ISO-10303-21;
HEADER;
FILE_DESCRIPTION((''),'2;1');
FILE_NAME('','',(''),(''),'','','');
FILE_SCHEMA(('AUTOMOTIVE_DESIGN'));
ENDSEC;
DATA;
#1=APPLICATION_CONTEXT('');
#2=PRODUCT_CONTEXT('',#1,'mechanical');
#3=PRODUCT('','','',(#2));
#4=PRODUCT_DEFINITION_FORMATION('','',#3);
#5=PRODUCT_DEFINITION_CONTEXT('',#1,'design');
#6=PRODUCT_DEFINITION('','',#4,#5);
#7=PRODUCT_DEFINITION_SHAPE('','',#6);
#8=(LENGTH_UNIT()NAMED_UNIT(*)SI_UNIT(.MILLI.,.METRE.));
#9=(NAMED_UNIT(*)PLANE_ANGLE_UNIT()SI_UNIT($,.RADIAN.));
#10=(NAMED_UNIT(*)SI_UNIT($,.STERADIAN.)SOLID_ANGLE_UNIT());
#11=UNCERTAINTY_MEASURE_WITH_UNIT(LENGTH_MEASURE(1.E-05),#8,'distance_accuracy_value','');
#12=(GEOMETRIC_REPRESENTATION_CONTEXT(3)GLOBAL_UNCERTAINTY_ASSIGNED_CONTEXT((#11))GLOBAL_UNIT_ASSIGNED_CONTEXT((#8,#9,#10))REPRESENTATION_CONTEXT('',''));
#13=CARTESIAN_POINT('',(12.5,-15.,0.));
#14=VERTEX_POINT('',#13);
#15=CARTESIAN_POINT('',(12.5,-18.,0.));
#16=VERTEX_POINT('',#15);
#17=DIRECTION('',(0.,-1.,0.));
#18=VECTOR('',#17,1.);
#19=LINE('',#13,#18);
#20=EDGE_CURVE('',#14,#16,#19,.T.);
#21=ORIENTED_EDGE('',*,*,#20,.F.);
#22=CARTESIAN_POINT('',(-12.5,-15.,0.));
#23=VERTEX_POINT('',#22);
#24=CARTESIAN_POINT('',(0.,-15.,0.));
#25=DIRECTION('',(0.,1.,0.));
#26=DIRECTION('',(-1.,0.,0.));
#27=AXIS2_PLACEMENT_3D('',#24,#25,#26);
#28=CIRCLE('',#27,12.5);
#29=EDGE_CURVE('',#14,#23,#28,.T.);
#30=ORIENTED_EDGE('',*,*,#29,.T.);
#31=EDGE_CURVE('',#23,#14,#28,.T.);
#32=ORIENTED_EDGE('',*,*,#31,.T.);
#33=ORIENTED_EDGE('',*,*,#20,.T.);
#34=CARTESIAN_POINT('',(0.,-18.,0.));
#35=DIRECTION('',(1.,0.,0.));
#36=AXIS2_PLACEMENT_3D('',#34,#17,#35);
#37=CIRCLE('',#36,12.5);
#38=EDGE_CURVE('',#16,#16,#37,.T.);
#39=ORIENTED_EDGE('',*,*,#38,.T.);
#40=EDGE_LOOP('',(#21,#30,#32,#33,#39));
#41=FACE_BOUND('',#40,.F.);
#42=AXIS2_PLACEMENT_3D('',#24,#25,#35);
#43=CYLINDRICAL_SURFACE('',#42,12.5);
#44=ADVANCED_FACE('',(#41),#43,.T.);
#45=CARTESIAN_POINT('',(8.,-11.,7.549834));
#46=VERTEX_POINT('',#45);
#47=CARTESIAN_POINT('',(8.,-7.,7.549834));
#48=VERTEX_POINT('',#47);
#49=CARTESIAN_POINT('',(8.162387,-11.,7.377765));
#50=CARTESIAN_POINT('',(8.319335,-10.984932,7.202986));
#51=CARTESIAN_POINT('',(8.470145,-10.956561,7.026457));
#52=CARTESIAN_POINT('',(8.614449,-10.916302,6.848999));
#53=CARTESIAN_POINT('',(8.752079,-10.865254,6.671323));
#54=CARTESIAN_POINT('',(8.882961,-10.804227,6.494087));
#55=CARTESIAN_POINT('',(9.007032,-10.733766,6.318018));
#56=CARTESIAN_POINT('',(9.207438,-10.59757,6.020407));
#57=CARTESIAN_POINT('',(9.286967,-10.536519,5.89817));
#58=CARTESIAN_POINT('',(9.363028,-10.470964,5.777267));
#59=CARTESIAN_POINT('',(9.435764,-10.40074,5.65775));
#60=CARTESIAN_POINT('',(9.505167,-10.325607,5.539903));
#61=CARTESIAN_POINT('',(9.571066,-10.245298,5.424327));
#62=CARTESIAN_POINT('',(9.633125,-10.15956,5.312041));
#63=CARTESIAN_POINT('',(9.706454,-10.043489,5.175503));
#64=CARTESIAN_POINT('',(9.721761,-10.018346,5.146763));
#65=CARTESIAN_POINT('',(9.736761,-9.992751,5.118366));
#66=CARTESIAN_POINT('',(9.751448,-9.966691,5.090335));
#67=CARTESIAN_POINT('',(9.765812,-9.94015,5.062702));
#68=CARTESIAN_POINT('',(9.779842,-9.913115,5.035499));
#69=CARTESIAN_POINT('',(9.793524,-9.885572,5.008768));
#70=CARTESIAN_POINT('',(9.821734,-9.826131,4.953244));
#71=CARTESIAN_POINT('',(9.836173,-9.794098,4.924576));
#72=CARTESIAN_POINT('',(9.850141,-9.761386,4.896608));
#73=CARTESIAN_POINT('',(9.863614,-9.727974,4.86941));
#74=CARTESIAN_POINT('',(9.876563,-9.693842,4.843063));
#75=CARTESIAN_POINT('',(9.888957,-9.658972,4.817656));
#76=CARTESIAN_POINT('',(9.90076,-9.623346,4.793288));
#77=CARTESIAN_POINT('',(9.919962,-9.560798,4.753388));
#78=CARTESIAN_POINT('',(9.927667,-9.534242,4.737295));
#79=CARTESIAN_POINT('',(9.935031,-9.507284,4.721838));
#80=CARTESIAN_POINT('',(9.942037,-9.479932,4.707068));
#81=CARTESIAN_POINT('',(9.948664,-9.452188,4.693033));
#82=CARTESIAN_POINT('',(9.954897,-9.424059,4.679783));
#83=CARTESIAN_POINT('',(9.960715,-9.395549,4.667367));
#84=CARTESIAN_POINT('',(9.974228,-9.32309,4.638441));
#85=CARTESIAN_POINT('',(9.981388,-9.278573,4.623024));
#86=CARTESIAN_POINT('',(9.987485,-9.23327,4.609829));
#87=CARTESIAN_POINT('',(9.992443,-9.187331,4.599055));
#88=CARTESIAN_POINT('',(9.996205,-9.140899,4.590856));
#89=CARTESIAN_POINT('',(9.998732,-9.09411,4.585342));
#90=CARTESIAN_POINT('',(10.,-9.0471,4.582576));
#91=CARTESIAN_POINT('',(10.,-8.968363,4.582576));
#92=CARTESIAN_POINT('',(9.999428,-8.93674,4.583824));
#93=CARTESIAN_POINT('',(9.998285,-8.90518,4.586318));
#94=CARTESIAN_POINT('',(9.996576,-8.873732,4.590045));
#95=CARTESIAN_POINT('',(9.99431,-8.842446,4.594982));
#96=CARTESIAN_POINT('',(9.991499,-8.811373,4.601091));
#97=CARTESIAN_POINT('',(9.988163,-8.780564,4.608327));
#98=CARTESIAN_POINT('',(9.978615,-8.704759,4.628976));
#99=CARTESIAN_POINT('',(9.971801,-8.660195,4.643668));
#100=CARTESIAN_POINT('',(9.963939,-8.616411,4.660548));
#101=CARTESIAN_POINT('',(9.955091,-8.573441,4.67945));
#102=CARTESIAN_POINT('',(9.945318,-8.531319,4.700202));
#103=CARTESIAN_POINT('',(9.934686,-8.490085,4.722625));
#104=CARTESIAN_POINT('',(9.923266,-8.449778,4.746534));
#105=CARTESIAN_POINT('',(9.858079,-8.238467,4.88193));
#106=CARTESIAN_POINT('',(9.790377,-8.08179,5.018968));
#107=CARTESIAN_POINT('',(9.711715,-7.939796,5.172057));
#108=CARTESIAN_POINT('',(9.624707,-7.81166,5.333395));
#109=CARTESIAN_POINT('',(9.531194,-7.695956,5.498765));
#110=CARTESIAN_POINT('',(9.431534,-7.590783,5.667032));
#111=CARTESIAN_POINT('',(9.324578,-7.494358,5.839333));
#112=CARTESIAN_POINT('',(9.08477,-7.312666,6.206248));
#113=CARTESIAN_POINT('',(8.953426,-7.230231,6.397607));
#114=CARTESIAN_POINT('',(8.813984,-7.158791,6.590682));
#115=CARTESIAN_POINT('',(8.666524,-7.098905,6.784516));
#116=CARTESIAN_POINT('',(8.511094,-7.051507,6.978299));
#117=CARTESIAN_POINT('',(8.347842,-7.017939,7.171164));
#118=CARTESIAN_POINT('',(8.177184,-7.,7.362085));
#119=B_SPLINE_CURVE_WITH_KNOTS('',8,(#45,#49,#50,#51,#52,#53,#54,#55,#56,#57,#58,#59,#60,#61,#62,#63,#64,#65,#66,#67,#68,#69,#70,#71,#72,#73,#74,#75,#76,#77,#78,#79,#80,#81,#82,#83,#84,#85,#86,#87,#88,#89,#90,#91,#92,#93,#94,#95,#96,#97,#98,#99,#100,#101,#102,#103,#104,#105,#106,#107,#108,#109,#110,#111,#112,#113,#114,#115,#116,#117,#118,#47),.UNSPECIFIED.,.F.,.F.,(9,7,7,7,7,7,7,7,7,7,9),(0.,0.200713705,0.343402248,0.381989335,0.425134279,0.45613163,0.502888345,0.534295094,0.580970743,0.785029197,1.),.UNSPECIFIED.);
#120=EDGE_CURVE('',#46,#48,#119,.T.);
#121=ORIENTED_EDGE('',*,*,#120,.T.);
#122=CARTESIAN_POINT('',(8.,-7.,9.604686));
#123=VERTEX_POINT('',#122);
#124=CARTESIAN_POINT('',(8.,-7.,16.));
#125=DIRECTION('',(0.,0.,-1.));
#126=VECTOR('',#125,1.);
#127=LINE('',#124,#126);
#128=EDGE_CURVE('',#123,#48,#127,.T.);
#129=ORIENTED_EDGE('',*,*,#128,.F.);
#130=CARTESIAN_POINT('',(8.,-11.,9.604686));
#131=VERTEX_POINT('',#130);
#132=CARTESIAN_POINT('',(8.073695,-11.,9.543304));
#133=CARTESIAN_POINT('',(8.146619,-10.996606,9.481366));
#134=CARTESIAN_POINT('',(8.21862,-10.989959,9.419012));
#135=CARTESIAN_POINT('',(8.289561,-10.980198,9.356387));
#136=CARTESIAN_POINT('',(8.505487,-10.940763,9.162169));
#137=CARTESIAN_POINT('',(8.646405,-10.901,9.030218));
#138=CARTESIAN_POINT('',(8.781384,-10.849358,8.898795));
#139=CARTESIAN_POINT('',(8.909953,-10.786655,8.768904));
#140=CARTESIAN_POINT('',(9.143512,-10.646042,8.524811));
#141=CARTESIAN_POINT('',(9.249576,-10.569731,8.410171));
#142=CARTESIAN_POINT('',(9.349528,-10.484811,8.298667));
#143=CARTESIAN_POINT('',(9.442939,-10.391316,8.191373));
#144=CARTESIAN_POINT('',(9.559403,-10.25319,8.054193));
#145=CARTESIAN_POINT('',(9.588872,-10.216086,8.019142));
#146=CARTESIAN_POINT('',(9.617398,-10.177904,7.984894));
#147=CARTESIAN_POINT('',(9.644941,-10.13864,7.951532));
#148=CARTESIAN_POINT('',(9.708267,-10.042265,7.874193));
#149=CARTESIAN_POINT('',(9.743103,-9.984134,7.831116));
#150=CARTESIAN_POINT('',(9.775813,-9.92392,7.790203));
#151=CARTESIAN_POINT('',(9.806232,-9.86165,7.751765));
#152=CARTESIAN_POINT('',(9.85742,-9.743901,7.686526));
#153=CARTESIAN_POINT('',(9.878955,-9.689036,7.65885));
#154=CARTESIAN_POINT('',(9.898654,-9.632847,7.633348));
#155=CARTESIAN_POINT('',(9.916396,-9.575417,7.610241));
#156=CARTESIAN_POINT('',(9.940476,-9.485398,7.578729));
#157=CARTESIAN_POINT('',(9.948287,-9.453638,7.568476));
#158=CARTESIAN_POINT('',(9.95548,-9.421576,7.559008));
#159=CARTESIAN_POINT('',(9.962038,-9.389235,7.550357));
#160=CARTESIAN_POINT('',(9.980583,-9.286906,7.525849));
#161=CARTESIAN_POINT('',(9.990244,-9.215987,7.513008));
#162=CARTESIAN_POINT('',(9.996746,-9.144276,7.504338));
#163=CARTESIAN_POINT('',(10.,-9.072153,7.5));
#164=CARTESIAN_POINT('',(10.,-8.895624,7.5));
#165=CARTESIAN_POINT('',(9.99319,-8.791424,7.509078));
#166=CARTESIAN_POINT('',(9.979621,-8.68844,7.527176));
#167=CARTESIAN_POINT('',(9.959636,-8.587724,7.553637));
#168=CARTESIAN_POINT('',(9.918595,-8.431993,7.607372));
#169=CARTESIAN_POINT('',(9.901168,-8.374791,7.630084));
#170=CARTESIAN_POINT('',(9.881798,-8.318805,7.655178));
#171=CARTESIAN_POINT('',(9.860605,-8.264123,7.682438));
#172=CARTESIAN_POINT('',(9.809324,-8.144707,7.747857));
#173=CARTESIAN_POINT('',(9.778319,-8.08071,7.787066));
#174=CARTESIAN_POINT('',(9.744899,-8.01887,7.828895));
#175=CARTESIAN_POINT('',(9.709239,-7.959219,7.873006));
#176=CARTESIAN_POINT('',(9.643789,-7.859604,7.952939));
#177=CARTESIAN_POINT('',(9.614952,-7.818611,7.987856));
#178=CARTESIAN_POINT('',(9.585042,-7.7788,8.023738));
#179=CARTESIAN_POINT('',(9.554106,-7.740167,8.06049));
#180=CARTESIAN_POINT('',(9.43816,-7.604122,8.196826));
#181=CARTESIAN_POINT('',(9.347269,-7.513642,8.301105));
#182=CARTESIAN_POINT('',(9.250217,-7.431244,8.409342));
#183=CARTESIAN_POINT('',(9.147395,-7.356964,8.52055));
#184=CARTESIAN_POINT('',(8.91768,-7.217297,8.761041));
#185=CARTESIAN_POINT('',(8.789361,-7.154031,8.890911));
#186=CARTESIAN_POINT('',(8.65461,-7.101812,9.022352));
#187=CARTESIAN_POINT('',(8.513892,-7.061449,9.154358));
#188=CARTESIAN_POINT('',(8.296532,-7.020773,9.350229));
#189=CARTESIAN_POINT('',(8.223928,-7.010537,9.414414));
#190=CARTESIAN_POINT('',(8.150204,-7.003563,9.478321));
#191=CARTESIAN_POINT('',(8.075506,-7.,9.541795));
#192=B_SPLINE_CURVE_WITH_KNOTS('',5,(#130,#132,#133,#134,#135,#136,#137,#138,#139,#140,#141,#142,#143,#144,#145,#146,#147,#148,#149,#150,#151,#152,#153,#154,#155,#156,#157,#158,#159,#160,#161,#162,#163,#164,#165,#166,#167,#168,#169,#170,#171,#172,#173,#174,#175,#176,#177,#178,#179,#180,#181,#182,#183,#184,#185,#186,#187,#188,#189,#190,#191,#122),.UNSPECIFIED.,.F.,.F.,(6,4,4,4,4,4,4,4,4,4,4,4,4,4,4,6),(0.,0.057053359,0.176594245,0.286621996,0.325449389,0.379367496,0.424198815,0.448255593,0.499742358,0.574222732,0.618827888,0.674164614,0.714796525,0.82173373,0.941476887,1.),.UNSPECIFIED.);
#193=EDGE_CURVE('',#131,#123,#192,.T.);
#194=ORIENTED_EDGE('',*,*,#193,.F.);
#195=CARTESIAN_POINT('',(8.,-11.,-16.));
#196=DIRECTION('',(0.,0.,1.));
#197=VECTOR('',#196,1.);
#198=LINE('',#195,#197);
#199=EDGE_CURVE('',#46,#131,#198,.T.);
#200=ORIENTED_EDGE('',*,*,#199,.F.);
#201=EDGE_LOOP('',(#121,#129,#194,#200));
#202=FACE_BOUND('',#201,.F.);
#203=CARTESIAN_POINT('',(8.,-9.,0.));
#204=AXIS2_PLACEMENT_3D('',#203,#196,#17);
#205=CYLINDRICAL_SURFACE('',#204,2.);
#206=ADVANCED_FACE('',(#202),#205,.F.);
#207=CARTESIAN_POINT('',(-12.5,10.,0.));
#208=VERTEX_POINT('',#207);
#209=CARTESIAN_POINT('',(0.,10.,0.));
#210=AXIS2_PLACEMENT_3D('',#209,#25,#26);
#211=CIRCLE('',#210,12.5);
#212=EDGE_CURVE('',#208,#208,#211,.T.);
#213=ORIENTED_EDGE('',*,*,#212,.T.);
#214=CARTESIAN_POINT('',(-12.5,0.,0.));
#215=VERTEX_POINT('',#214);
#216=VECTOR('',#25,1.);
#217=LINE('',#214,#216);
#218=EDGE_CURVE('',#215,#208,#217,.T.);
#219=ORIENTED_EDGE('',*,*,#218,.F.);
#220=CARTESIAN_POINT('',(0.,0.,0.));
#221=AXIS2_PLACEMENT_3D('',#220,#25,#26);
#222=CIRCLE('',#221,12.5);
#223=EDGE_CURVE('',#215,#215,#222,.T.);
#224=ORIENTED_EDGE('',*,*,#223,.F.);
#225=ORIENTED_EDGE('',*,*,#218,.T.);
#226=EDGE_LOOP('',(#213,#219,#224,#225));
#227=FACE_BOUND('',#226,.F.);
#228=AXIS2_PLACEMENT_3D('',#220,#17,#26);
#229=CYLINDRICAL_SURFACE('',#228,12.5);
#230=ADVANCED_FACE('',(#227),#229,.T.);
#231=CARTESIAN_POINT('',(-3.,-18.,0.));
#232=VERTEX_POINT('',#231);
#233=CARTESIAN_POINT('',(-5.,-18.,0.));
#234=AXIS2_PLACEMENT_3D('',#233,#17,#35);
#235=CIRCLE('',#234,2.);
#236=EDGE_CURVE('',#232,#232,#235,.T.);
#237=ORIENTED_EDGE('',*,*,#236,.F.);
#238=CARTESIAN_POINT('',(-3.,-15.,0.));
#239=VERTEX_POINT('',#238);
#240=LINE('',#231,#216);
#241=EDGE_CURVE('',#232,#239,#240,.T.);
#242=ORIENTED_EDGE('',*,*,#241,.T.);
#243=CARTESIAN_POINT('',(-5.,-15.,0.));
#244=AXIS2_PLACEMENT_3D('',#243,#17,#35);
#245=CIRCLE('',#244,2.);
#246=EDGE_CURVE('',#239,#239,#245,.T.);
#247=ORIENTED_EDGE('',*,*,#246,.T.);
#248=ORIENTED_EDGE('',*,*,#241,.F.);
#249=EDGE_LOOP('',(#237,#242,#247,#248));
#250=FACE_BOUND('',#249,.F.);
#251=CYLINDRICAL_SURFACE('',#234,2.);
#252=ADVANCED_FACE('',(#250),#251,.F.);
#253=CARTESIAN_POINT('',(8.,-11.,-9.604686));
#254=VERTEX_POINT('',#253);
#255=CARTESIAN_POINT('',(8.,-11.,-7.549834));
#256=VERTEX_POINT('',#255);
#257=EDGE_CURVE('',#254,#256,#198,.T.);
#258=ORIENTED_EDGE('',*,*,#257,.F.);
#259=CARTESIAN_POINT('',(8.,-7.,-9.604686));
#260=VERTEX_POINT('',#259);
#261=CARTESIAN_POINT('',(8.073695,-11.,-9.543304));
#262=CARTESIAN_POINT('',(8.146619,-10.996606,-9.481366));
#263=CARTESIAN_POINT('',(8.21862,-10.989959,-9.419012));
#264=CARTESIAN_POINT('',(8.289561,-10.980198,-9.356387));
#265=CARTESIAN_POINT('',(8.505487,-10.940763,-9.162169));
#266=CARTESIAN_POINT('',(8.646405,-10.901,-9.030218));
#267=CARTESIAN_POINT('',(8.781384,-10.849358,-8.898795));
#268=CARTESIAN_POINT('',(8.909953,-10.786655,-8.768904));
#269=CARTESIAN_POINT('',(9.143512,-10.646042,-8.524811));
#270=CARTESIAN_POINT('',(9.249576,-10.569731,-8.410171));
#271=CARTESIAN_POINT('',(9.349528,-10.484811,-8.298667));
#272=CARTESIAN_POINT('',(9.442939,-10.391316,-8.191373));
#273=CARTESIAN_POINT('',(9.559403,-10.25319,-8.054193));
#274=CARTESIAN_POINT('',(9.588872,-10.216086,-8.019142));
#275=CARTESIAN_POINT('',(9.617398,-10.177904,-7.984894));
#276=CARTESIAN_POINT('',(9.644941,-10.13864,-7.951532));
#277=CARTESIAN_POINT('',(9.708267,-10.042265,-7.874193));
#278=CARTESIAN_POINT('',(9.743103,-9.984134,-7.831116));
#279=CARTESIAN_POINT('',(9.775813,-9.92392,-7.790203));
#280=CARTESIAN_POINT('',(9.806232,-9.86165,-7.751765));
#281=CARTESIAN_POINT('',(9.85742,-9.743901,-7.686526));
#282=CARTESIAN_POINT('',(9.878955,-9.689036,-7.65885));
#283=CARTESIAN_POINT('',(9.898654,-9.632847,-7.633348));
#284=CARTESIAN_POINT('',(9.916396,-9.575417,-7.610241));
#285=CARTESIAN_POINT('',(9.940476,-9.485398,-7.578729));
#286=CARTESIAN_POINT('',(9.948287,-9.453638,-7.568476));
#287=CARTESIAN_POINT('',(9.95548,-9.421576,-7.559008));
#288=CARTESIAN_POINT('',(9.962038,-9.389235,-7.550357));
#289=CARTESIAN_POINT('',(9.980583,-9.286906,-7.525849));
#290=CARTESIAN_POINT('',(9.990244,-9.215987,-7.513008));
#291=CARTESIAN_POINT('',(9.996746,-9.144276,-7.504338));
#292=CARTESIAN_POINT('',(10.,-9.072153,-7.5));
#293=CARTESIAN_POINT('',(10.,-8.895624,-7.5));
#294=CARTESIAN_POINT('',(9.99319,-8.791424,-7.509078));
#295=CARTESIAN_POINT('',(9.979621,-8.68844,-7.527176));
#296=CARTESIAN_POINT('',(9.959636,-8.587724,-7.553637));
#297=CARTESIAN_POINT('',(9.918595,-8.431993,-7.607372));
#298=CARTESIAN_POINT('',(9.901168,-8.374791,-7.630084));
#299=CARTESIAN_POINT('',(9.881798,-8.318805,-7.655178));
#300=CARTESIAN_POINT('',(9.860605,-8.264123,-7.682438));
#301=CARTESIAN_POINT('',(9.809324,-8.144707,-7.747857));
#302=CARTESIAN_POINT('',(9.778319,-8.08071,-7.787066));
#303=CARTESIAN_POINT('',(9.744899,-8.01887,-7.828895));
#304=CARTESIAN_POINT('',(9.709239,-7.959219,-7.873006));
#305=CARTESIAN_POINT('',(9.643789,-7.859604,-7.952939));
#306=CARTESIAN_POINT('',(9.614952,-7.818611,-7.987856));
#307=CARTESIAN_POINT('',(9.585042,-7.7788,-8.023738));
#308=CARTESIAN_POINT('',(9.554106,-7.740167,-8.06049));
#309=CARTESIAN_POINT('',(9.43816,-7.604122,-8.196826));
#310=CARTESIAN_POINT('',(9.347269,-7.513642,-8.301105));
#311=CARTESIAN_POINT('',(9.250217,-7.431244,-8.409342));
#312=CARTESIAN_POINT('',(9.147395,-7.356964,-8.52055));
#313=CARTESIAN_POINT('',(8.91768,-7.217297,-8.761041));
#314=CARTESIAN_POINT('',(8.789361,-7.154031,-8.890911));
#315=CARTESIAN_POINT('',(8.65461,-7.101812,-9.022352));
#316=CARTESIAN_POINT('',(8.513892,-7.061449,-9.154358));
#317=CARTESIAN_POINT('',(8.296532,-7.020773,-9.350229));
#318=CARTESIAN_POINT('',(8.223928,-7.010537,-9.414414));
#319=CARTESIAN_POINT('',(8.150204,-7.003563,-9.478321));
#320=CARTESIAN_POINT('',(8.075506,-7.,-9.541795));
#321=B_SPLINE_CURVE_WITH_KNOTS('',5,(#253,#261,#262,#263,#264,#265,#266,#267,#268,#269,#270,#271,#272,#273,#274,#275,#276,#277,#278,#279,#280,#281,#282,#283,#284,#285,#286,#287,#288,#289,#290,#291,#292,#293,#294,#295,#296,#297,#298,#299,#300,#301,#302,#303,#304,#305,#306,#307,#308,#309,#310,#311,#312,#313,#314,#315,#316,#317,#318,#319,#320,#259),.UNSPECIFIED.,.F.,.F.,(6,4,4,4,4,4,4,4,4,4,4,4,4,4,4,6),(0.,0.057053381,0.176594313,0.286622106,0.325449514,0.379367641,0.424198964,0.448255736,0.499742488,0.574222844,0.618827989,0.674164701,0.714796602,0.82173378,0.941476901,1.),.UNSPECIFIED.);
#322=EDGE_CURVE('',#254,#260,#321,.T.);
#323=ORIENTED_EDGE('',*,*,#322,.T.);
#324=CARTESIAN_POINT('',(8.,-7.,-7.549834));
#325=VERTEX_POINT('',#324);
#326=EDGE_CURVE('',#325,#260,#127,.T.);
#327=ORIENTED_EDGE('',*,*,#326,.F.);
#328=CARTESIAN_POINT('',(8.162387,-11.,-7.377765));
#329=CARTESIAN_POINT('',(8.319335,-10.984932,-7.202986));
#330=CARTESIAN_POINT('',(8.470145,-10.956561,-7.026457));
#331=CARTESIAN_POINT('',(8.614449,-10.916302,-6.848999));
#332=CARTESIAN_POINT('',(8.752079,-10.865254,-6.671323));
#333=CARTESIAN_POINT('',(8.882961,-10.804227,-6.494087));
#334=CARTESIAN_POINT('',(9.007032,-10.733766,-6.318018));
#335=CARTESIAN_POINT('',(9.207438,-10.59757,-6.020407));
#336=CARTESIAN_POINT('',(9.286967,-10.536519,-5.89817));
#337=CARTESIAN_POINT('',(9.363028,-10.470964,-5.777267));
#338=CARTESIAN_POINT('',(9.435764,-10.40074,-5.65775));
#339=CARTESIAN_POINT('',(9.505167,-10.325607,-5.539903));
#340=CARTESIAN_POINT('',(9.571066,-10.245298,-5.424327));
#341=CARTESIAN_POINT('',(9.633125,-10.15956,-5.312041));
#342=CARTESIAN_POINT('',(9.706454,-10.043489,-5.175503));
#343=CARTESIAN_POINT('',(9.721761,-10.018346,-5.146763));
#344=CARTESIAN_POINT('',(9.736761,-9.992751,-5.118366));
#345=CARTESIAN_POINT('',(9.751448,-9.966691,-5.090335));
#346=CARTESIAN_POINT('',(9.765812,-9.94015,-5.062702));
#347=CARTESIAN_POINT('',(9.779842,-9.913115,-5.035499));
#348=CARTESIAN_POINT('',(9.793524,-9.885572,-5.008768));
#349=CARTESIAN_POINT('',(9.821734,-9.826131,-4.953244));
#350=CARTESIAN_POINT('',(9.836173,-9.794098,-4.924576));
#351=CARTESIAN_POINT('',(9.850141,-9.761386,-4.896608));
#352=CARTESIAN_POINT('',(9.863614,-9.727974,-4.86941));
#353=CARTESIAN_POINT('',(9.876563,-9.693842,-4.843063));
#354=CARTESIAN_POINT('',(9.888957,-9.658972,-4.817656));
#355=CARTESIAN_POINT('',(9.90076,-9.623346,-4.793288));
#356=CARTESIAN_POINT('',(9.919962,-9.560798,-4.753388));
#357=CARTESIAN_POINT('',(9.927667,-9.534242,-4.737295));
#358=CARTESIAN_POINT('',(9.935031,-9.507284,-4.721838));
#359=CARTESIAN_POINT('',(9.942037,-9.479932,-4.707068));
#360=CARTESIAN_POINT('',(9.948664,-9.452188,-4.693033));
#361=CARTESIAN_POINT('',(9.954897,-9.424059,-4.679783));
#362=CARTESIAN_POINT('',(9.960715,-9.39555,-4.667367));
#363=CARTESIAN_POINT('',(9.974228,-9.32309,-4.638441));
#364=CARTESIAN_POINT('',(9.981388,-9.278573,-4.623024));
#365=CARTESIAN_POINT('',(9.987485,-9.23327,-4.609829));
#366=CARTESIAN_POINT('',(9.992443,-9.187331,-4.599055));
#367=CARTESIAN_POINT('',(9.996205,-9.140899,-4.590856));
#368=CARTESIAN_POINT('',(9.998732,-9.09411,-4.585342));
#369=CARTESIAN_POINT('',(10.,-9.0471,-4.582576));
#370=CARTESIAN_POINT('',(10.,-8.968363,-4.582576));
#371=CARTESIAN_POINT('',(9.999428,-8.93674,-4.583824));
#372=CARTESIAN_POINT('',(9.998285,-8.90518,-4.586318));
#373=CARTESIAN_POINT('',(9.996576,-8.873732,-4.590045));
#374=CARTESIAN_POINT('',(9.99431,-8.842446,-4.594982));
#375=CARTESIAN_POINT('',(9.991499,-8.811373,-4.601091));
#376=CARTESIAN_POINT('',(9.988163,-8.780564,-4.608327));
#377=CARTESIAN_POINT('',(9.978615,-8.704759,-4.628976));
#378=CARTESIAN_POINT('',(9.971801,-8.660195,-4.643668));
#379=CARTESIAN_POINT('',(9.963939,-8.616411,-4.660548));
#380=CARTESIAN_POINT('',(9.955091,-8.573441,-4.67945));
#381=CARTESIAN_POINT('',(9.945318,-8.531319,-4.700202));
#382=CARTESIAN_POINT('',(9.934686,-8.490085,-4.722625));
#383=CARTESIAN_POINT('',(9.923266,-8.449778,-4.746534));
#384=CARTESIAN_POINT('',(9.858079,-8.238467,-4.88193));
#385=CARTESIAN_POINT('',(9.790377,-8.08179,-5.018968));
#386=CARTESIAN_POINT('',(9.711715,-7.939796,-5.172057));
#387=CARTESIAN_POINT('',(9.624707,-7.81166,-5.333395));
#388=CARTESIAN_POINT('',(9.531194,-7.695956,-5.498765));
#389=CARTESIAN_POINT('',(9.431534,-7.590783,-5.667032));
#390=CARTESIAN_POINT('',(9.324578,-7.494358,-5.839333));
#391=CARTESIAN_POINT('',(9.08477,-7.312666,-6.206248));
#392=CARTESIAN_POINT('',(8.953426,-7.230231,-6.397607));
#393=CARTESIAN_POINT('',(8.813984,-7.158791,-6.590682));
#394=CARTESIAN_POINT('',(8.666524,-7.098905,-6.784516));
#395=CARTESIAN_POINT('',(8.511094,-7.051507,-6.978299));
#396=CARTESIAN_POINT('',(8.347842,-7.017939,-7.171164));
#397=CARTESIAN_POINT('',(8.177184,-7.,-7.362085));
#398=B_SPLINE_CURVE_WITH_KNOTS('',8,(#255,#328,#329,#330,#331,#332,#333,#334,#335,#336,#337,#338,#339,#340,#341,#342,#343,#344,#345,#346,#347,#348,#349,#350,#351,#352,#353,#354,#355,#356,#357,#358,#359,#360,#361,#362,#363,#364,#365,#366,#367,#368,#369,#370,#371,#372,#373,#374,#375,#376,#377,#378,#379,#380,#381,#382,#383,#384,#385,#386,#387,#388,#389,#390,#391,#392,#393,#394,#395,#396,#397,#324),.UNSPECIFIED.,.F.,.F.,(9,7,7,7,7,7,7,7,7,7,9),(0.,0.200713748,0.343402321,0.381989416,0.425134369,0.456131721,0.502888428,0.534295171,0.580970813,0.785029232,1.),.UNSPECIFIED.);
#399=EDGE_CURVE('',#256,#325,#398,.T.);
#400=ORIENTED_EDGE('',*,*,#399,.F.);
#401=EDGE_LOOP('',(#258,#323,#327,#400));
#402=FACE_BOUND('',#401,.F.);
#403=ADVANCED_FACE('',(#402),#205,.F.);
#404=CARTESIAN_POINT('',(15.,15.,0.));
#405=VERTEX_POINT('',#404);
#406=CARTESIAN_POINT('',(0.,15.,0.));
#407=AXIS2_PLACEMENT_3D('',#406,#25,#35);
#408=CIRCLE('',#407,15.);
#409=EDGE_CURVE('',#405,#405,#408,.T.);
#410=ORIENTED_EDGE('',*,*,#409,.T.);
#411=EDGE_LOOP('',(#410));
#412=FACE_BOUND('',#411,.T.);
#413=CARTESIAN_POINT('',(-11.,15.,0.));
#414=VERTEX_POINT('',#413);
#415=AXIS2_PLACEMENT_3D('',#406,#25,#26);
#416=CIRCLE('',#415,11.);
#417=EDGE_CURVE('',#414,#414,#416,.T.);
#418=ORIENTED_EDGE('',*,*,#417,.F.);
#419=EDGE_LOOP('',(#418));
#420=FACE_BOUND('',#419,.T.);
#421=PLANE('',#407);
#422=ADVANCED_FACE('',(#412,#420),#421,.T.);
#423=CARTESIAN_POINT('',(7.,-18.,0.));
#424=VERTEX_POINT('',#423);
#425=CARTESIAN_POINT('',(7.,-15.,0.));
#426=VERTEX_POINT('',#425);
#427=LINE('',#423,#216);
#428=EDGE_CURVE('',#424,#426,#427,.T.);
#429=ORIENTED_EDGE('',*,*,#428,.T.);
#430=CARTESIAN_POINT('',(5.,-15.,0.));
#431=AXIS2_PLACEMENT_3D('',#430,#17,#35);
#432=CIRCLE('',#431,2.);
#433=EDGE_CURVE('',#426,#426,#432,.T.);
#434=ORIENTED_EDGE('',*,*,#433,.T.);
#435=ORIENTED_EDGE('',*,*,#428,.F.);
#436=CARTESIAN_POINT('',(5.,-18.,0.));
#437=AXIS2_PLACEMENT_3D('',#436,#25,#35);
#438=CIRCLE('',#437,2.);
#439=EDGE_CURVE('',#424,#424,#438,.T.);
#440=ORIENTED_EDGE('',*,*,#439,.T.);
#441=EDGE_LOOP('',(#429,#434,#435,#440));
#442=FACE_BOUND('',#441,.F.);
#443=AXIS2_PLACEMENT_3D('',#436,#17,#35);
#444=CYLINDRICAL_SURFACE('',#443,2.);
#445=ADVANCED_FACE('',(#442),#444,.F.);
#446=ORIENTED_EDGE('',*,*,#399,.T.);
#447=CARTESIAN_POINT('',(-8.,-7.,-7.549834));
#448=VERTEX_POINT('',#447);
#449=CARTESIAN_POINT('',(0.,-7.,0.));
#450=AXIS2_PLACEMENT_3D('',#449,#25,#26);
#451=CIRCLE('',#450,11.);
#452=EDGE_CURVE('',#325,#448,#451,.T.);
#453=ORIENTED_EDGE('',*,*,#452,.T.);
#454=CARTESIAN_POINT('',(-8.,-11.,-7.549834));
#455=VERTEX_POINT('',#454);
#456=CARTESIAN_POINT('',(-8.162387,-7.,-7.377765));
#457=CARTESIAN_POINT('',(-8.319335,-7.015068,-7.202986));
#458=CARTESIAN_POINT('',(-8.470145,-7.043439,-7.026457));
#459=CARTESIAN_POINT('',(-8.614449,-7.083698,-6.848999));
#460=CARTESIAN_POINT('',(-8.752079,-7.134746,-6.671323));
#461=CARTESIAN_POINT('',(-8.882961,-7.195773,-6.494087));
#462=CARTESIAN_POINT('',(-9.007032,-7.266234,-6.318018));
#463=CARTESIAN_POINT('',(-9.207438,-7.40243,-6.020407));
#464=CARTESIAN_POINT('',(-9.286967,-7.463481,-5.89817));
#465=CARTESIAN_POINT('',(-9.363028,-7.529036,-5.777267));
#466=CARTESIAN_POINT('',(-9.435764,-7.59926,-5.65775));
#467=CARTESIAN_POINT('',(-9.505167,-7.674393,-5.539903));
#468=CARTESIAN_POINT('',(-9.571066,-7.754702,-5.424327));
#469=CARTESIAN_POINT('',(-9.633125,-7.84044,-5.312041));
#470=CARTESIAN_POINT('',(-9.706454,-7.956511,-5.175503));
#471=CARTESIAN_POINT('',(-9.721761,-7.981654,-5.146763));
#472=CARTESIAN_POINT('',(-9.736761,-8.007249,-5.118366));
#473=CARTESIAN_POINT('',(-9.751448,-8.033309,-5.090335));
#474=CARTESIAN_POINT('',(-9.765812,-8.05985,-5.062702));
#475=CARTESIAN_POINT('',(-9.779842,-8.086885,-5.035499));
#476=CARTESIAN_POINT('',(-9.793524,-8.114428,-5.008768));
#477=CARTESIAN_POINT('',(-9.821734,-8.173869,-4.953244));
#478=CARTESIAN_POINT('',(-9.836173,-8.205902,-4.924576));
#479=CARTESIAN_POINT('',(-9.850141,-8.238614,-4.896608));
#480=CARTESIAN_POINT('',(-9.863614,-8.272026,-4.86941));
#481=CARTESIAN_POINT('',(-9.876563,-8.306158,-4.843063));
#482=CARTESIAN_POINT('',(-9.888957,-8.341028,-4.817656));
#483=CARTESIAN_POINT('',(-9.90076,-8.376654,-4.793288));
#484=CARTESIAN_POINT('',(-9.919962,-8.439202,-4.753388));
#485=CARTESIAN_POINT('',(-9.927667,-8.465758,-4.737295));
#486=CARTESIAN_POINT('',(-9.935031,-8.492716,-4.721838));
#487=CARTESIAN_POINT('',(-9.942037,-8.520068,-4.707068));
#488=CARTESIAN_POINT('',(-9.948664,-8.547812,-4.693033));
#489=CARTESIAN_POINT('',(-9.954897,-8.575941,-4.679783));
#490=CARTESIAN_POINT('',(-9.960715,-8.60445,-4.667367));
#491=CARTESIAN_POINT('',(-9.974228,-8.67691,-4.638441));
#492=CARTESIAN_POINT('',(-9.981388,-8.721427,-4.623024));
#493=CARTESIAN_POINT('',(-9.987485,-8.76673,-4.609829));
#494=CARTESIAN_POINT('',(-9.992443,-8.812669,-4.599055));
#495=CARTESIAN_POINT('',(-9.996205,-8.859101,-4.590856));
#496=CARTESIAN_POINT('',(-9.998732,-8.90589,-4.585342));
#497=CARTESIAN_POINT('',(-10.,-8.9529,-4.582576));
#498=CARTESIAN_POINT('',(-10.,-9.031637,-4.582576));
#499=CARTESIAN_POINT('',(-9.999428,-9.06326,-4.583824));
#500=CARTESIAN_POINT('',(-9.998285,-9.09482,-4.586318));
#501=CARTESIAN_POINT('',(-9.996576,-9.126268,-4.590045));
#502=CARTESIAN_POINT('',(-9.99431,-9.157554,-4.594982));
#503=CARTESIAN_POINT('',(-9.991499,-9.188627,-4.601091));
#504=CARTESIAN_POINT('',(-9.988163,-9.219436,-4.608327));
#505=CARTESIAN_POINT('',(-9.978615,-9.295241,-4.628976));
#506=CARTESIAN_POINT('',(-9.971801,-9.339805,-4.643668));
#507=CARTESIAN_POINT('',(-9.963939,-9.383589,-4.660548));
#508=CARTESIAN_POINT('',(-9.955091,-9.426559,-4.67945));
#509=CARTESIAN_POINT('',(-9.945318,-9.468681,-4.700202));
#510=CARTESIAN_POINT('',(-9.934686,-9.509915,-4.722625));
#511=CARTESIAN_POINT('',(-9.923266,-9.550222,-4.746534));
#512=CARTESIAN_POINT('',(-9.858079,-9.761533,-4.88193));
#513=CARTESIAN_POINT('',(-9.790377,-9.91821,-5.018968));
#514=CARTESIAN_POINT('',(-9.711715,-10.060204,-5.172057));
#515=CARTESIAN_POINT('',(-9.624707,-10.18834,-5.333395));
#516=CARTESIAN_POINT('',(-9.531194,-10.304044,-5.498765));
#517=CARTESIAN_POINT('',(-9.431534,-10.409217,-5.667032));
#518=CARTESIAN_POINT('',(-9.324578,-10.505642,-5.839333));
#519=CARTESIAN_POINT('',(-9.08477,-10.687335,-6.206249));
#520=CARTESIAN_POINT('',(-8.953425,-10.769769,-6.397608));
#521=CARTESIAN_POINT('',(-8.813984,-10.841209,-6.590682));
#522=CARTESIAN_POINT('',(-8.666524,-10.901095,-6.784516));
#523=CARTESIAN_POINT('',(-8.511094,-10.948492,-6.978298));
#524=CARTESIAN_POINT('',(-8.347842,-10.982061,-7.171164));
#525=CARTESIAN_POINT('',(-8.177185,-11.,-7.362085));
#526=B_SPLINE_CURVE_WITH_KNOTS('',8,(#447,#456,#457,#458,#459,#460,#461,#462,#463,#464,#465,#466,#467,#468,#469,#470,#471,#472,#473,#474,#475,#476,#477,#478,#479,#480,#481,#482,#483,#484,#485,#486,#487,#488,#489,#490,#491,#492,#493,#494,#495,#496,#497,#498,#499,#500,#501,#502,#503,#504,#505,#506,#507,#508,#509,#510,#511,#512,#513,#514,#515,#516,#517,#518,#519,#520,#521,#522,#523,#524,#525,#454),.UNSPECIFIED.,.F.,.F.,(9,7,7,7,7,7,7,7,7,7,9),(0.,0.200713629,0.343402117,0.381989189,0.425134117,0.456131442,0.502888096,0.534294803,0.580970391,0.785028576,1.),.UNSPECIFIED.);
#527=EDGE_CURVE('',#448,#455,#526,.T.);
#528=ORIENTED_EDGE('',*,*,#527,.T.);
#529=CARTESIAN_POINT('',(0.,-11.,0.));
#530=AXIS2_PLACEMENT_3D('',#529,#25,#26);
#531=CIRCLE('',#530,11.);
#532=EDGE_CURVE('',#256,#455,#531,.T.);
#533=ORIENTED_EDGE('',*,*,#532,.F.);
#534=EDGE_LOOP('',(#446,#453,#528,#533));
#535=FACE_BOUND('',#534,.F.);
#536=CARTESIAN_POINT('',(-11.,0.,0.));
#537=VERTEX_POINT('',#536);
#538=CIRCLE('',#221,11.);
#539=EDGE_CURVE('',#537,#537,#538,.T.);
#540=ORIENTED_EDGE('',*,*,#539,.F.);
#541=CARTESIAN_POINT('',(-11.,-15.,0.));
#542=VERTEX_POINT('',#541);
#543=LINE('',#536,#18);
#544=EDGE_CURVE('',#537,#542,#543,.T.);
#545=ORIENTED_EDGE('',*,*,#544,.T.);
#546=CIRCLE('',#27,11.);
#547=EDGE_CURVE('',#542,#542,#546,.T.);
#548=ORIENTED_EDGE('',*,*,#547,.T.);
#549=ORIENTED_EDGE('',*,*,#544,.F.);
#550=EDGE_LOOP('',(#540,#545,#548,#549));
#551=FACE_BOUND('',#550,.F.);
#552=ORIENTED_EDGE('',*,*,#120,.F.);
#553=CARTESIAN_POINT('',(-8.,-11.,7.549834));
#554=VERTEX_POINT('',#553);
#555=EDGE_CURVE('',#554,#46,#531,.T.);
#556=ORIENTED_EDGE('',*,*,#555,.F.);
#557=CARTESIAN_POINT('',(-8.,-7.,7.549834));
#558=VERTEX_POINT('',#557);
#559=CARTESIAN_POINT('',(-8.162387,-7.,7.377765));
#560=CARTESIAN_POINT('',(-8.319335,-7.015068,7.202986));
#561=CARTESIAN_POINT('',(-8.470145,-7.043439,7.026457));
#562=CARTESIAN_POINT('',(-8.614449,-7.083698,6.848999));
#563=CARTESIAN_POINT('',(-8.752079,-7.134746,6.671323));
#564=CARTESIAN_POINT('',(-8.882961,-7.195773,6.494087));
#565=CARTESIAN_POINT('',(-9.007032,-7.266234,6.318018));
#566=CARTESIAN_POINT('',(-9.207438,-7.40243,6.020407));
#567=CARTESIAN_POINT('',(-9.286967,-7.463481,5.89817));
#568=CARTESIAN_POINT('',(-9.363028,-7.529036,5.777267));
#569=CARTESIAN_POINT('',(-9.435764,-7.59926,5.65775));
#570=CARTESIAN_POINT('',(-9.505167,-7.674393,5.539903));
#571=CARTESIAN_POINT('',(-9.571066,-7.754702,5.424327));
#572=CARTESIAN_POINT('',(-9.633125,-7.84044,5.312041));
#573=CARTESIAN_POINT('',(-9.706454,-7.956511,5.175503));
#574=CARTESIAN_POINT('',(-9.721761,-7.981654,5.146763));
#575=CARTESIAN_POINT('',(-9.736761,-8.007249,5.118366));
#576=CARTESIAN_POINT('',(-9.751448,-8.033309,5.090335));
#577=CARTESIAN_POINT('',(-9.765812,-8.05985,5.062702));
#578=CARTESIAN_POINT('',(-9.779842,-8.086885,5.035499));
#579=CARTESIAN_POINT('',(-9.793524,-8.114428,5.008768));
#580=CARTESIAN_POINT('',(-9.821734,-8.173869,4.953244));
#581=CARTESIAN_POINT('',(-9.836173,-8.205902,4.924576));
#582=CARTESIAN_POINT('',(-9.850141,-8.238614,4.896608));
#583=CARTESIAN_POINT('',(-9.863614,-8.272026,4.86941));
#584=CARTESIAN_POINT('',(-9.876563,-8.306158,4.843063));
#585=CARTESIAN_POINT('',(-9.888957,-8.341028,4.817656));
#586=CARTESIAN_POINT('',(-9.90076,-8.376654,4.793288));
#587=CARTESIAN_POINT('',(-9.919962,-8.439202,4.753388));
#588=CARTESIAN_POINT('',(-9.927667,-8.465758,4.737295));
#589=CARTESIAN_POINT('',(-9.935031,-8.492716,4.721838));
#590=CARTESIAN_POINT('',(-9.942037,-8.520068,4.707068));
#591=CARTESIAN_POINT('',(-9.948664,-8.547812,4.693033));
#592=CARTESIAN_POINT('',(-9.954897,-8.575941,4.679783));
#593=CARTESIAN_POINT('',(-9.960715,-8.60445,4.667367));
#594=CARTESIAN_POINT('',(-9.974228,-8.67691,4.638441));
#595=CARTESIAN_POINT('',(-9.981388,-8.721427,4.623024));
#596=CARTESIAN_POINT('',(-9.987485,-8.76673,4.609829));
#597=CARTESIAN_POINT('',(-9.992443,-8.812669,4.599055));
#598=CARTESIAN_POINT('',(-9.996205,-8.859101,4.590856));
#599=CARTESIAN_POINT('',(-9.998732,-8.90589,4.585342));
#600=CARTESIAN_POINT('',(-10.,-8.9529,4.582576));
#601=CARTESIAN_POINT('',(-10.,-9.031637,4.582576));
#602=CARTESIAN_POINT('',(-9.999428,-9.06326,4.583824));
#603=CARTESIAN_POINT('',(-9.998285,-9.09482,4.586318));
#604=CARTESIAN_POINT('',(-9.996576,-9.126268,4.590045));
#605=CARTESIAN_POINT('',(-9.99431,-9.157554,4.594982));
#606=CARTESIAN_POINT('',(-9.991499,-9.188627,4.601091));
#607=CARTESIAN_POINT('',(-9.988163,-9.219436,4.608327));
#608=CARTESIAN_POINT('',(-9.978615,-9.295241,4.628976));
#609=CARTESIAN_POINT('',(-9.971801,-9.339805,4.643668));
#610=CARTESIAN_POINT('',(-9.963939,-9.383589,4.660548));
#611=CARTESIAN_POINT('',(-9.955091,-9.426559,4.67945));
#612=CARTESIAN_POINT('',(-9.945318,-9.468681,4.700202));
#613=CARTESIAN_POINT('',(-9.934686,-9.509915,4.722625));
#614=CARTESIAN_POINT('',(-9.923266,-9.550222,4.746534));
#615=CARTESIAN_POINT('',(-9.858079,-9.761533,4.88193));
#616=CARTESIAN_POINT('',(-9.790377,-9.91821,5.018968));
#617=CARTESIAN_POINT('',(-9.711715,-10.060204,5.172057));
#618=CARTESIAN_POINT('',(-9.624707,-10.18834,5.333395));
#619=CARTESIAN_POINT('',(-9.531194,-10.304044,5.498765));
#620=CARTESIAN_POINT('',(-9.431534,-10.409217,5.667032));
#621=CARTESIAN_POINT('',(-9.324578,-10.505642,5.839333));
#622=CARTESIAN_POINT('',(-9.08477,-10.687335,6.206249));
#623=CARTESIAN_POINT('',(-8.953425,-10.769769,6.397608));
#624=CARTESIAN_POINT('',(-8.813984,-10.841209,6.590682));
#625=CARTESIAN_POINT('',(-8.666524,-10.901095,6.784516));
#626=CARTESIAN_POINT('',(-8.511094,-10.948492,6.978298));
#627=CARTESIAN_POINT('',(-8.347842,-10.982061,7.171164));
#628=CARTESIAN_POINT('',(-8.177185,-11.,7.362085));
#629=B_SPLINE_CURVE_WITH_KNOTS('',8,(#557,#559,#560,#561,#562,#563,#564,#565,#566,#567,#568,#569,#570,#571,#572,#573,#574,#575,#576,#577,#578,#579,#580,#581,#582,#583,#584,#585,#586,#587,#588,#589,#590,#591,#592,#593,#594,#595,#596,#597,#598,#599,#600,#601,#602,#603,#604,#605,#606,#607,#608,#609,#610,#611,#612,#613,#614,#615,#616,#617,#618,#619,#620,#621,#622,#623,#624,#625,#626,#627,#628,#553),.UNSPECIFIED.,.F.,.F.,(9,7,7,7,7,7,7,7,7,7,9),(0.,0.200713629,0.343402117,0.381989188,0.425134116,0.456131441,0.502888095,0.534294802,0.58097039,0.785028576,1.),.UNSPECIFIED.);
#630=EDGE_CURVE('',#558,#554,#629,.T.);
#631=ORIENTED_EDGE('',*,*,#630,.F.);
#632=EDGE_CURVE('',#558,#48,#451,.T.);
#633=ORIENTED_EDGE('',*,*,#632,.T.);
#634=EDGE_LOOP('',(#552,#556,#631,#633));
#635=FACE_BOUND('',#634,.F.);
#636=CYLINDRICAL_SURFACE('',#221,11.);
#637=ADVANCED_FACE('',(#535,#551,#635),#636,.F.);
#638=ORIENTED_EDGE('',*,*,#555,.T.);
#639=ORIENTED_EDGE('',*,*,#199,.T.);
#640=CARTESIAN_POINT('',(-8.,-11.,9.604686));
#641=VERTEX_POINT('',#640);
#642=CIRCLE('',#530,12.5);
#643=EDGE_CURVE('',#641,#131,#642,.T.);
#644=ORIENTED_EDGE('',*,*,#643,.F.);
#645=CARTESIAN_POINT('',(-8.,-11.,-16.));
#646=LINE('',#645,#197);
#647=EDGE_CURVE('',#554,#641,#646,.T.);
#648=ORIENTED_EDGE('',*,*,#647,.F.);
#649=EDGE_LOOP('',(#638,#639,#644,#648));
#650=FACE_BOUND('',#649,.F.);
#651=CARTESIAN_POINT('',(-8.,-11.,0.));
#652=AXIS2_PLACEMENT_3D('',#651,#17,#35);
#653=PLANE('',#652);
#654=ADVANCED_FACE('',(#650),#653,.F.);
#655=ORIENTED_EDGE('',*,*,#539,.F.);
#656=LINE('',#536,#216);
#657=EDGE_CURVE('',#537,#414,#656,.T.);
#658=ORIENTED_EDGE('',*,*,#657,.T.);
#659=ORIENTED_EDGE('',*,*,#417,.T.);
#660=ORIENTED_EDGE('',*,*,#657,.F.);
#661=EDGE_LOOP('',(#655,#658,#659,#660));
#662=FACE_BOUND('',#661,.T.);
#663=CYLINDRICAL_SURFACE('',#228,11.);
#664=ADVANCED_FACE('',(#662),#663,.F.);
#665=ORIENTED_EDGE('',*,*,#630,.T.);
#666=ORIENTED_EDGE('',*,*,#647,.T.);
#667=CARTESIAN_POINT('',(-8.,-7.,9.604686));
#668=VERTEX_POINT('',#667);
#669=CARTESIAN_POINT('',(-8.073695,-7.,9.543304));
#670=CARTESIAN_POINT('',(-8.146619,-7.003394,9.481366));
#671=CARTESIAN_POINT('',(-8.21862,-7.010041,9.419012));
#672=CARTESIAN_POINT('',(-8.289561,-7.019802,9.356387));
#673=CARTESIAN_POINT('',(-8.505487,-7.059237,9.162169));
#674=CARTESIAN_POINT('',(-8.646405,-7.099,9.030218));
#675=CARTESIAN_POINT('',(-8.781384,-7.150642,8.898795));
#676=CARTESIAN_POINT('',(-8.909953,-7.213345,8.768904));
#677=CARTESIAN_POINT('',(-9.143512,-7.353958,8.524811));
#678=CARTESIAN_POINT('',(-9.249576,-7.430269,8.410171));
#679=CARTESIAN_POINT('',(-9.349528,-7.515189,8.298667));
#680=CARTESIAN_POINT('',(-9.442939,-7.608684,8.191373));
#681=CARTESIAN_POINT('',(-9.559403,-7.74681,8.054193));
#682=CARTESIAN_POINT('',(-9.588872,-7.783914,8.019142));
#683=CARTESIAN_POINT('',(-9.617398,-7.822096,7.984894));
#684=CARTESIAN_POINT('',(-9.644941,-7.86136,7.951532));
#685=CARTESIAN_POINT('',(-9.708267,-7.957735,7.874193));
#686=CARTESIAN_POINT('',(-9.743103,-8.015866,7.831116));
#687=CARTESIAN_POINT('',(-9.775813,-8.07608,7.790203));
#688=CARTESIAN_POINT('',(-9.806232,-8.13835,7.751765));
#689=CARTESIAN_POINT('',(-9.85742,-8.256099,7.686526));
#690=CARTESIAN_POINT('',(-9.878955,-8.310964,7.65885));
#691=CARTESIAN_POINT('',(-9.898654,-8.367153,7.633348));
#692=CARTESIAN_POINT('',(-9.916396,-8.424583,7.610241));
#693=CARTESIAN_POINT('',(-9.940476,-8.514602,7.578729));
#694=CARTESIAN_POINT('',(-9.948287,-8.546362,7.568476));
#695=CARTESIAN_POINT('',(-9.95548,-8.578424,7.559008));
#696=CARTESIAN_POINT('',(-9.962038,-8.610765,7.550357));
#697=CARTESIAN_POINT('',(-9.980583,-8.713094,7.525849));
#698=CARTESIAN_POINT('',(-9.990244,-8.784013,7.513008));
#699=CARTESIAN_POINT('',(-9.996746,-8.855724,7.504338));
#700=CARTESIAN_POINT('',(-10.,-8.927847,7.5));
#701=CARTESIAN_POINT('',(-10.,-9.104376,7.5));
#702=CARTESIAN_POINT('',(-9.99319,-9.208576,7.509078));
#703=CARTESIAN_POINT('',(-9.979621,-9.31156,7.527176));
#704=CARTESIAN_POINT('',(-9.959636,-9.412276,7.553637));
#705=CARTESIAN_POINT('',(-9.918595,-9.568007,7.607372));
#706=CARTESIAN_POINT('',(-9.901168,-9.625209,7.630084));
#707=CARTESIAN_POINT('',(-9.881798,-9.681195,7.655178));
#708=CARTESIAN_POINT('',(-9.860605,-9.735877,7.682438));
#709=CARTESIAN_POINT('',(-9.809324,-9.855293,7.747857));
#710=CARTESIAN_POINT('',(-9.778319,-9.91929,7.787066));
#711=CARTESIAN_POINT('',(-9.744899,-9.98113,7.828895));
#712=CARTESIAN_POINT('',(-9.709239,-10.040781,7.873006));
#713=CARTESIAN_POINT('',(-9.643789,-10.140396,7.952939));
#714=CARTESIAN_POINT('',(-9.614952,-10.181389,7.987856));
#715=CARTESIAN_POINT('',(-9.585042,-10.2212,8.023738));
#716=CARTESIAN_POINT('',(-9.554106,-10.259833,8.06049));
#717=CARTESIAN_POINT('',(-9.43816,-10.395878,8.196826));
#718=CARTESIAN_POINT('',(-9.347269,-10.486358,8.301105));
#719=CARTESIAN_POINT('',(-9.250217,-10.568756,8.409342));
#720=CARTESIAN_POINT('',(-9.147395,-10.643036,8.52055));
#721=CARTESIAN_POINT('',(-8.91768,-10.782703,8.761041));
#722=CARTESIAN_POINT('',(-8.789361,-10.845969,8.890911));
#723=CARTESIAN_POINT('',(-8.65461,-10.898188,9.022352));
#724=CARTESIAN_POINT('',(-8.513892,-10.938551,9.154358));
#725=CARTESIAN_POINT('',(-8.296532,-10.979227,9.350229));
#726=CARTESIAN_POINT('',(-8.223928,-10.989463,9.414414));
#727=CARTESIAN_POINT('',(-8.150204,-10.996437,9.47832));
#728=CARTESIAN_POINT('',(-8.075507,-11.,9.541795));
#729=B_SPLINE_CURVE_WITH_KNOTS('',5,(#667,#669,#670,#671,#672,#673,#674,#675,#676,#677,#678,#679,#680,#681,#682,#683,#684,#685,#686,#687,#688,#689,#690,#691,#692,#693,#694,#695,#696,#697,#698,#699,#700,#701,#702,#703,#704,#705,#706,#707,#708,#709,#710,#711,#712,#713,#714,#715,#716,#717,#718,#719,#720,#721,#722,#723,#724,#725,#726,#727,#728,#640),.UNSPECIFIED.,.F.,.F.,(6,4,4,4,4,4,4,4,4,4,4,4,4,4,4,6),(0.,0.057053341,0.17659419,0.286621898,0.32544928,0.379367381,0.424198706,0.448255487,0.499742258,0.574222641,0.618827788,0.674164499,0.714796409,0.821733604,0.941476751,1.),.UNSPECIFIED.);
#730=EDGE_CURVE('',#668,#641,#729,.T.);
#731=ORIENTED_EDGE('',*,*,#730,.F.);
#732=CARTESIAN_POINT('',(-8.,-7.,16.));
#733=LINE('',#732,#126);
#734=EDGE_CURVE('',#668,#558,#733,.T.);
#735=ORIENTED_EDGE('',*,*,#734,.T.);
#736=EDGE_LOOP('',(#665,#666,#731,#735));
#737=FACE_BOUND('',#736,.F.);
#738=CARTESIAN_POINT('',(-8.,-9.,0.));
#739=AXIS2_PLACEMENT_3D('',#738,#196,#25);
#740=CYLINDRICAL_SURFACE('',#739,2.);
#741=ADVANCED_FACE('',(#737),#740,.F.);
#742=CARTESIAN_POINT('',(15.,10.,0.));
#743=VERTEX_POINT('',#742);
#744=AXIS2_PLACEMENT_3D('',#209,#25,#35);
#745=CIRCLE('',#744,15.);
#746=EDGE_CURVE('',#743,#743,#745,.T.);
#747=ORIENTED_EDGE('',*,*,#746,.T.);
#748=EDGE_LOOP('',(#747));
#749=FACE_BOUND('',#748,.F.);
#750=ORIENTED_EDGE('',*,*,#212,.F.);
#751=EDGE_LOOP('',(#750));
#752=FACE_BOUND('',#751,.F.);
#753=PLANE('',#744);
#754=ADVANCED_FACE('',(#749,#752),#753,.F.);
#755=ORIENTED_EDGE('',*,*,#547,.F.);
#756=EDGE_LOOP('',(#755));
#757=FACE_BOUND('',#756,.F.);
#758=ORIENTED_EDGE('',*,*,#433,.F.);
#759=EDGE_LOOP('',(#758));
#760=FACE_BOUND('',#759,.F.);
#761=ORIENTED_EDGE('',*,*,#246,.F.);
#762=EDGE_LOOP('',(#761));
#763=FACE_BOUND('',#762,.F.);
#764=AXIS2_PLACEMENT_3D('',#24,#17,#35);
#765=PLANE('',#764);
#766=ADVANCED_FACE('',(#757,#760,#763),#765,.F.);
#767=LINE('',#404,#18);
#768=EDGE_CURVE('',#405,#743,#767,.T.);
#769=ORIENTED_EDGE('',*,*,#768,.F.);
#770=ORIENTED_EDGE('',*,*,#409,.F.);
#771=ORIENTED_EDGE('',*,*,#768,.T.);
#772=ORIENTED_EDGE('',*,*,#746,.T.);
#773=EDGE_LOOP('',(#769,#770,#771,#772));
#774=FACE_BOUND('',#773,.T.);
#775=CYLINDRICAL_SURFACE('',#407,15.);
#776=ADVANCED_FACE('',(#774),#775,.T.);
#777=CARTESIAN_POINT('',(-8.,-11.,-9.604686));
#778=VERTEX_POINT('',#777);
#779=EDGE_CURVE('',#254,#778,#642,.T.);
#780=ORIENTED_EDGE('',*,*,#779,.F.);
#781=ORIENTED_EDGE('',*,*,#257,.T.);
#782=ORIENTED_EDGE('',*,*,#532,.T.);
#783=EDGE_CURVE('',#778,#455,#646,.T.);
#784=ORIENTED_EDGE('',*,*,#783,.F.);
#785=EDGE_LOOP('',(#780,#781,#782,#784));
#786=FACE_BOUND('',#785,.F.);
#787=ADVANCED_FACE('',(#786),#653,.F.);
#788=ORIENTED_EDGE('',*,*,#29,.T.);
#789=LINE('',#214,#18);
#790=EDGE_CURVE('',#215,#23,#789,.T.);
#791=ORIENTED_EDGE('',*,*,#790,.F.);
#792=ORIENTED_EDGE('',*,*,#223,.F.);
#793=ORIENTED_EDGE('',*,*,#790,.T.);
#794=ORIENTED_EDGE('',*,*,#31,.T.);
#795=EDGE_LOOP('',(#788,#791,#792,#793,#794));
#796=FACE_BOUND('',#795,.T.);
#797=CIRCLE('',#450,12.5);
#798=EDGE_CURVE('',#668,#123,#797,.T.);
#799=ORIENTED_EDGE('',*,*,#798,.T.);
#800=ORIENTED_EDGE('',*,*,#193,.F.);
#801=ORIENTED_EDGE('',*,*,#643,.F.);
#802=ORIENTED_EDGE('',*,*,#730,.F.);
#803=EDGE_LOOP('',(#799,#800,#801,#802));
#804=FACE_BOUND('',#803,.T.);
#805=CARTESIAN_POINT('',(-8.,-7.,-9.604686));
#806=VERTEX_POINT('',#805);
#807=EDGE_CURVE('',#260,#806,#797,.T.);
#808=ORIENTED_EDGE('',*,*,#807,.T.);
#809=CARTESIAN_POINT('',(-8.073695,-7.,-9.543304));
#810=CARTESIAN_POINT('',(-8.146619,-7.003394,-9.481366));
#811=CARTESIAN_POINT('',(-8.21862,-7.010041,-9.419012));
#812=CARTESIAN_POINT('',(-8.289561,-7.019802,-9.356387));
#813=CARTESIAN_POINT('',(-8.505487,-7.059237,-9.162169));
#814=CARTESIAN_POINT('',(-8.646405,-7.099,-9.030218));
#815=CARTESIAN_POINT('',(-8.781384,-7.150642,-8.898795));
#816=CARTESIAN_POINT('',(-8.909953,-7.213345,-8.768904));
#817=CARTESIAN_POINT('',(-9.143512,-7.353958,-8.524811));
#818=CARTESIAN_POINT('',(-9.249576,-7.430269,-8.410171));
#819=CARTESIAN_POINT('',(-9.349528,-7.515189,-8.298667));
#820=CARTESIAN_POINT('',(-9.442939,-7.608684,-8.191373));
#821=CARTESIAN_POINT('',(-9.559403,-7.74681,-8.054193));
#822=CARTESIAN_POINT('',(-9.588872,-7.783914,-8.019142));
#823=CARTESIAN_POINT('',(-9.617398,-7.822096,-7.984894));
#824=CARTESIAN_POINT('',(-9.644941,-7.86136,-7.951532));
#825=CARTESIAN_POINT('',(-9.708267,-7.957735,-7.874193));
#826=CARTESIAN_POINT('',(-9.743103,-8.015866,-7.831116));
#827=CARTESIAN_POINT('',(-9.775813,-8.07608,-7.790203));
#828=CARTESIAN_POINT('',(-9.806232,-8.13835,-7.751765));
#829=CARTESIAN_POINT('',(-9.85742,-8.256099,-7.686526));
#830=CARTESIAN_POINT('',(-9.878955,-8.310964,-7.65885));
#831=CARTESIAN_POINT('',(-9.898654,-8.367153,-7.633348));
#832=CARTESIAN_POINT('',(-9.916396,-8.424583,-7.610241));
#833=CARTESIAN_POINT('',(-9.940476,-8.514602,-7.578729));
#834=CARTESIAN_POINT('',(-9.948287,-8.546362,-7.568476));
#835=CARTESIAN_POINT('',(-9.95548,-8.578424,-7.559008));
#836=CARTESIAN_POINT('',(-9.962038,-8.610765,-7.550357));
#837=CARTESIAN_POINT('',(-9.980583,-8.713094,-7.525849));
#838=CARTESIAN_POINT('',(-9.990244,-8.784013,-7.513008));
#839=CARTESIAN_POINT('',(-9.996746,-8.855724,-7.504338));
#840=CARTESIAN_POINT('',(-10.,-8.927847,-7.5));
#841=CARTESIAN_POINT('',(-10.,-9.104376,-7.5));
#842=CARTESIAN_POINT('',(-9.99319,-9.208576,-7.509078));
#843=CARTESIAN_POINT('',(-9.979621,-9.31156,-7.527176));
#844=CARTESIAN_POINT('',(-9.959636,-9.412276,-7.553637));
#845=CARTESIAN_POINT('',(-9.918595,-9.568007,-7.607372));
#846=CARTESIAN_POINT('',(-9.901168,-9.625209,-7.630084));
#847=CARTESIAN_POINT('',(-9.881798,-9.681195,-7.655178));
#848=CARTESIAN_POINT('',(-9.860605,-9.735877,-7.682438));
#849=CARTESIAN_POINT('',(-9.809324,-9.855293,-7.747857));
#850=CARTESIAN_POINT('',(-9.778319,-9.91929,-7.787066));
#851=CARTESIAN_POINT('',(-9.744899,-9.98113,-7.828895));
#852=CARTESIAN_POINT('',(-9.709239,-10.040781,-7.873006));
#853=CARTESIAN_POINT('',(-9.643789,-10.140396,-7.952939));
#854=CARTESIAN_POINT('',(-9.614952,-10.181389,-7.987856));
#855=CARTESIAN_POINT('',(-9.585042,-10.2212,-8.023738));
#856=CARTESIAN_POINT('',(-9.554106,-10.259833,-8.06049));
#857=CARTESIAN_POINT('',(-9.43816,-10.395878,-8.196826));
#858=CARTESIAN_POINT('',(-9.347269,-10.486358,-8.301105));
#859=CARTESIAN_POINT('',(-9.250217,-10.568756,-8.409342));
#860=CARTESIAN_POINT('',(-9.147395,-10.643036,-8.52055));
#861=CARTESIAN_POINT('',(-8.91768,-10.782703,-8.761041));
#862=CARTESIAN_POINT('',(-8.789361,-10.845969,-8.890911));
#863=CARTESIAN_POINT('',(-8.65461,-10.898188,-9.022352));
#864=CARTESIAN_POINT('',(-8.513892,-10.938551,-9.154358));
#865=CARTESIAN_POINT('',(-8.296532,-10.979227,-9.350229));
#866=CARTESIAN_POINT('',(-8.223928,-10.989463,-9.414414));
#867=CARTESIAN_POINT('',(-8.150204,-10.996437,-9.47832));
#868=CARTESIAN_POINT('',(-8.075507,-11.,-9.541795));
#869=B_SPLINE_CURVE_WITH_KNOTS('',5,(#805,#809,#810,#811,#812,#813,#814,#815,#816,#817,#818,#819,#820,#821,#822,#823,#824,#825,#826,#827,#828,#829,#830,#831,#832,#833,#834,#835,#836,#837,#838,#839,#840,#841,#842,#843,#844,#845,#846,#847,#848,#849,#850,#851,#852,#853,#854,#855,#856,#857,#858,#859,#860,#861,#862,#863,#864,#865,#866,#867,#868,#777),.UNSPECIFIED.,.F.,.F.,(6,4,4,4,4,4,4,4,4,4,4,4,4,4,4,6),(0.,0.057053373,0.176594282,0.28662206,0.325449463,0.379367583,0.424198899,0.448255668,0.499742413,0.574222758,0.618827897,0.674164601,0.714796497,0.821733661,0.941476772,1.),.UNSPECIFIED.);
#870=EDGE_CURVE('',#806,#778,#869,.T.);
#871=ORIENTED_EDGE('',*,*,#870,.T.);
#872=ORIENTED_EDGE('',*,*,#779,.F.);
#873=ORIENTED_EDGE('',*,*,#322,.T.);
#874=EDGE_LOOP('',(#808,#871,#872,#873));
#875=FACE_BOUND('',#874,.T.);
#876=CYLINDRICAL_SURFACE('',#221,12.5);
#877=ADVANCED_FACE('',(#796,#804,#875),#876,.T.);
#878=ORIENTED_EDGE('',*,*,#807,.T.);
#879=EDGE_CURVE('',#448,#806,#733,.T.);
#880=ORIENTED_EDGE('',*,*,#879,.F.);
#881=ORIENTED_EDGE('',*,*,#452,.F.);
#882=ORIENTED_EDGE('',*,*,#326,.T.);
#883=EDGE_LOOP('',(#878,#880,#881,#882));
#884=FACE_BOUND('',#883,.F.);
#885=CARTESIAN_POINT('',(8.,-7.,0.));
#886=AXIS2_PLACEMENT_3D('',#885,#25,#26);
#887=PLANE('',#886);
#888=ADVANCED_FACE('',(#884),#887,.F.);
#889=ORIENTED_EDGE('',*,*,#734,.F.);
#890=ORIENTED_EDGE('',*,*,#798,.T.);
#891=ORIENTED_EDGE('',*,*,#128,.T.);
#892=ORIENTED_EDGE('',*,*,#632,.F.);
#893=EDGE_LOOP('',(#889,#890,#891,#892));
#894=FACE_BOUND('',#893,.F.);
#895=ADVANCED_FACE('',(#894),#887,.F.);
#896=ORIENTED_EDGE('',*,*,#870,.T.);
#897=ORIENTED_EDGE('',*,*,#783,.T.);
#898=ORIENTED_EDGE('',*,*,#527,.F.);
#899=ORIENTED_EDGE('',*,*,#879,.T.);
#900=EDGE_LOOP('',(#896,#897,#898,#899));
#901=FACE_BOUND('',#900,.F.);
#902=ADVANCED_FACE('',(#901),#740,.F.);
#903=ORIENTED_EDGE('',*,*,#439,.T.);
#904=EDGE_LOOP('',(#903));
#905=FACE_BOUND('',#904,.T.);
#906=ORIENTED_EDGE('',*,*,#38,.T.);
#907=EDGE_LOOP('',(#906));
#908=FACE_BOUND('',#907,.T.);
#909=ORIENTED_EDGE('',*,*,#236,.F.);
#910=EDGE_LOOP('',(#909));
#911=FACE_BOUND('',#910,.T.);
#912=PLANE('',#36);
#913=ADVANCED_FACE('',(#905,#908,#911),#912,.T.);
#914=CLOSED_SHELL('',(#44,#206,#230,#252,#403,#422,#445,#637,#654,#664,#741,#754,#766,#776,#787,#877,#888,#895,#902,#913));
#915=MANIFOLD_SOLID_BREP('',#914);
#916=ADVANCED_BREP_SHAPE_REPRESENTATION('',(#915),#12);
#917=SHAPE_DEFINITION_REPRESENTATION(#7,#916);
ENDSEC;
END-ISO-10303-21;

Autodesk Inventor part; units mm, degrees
ref_plane "YZ Plane" through (0, 0, 0) normal (1, 0, 0) x (0, 1, 0)
ref_plane "XZ Plane" through (0, 0, 0) normal (0, 1, 0) x (-1, 0, 0)
ref_plane "XY Plane" through (0, 0, 0) normal (0, 0, 1) x (1, 0, 0)
sketch "Sketch1" plane through (0, 0, 0) normal (0, 1, 0) x (-1, 0, 0)
  circle A0 centre (0, 0) radius 12.5
  circle A1 centre (0, 0) radius 11
  dimension "d0" = 25
  dimension "d1" = 22
extrude "Extrusion1" add sketch "Sketch1" along normal mid plane 30
sketch "Sketch2" plane through (0, 15, 0) normal (0, 1, 0) x (1, 0, 0)
  circle A0 centre (0, 0) radius 15
  circle A1 centre (0, 0) radius 12.5
  dimension "d4" = 30
extrude "Extrusion2" add sketch "Sketch2" against normal blind 5
sketch "Sketch3" plane through (0, -15, 0) normal (0, -1, 0) x (1, 0, 0)
  circle A0 centre (0, 0) radius 12.5
extrude "Extrusion3" add sketch "Sketch3" along normal blind 3
sketch "Sketch4" plane through (0, -18, 0) normal (0, -1, 0) x (1, 0, 0)
  line L0 (0, 0) -> (-5, 0)
  line L1 (0, 0) -> (5, 0)
  circle A0 centre (-5, 0) radius 2
  circle A1 centre (5, 0) radius 2
  dimension "d21" = 5
  dimension "d22" = 5
  dimension "d23" = 4
  dimension "d24" = 4
extrude "Extrusion4" cut sketch "Sketch4" against normal through all
sketch "Sketch6" plane through (0, 0, 0) normal (0, 0, 1) x (1, 0, 0)
  line L0 (-12.5, 10) -> (12.5, 10) construction
  line L1 (0, 10) -> (0, 0) construction
  line L2 (0, 0) -> (0, -9) construction
  line L3 (-12.5, -18) -> (12.5, -18) construction
  line L4 (0, -9) -> (-8, -9) construction
  line L5 (-8, -9) -> (8, -9) construction
  line L6 (-8, -11) -> (8, -11)
  line L7 (8, -7) -> (-8, -7)
  arc A0 (-8, -7) -> (-8, -11) centre (-8, -9) ccw
  arc A1 (8, -11) -> (8, -7) centre (8, -9) ccw
  dimension "d14" = 10
  dimension "d15" = 9
  dimension "d16" = 8
  dimension "d17" = 16
  dimension "d18" = 4
extrude "Extrusion6" cut sketch "Sketch6" against normal through all both and the other way through all
equation "\"d21\" = d22"
properties part number "EndEffectorRotational" material "ABS Plastic"
